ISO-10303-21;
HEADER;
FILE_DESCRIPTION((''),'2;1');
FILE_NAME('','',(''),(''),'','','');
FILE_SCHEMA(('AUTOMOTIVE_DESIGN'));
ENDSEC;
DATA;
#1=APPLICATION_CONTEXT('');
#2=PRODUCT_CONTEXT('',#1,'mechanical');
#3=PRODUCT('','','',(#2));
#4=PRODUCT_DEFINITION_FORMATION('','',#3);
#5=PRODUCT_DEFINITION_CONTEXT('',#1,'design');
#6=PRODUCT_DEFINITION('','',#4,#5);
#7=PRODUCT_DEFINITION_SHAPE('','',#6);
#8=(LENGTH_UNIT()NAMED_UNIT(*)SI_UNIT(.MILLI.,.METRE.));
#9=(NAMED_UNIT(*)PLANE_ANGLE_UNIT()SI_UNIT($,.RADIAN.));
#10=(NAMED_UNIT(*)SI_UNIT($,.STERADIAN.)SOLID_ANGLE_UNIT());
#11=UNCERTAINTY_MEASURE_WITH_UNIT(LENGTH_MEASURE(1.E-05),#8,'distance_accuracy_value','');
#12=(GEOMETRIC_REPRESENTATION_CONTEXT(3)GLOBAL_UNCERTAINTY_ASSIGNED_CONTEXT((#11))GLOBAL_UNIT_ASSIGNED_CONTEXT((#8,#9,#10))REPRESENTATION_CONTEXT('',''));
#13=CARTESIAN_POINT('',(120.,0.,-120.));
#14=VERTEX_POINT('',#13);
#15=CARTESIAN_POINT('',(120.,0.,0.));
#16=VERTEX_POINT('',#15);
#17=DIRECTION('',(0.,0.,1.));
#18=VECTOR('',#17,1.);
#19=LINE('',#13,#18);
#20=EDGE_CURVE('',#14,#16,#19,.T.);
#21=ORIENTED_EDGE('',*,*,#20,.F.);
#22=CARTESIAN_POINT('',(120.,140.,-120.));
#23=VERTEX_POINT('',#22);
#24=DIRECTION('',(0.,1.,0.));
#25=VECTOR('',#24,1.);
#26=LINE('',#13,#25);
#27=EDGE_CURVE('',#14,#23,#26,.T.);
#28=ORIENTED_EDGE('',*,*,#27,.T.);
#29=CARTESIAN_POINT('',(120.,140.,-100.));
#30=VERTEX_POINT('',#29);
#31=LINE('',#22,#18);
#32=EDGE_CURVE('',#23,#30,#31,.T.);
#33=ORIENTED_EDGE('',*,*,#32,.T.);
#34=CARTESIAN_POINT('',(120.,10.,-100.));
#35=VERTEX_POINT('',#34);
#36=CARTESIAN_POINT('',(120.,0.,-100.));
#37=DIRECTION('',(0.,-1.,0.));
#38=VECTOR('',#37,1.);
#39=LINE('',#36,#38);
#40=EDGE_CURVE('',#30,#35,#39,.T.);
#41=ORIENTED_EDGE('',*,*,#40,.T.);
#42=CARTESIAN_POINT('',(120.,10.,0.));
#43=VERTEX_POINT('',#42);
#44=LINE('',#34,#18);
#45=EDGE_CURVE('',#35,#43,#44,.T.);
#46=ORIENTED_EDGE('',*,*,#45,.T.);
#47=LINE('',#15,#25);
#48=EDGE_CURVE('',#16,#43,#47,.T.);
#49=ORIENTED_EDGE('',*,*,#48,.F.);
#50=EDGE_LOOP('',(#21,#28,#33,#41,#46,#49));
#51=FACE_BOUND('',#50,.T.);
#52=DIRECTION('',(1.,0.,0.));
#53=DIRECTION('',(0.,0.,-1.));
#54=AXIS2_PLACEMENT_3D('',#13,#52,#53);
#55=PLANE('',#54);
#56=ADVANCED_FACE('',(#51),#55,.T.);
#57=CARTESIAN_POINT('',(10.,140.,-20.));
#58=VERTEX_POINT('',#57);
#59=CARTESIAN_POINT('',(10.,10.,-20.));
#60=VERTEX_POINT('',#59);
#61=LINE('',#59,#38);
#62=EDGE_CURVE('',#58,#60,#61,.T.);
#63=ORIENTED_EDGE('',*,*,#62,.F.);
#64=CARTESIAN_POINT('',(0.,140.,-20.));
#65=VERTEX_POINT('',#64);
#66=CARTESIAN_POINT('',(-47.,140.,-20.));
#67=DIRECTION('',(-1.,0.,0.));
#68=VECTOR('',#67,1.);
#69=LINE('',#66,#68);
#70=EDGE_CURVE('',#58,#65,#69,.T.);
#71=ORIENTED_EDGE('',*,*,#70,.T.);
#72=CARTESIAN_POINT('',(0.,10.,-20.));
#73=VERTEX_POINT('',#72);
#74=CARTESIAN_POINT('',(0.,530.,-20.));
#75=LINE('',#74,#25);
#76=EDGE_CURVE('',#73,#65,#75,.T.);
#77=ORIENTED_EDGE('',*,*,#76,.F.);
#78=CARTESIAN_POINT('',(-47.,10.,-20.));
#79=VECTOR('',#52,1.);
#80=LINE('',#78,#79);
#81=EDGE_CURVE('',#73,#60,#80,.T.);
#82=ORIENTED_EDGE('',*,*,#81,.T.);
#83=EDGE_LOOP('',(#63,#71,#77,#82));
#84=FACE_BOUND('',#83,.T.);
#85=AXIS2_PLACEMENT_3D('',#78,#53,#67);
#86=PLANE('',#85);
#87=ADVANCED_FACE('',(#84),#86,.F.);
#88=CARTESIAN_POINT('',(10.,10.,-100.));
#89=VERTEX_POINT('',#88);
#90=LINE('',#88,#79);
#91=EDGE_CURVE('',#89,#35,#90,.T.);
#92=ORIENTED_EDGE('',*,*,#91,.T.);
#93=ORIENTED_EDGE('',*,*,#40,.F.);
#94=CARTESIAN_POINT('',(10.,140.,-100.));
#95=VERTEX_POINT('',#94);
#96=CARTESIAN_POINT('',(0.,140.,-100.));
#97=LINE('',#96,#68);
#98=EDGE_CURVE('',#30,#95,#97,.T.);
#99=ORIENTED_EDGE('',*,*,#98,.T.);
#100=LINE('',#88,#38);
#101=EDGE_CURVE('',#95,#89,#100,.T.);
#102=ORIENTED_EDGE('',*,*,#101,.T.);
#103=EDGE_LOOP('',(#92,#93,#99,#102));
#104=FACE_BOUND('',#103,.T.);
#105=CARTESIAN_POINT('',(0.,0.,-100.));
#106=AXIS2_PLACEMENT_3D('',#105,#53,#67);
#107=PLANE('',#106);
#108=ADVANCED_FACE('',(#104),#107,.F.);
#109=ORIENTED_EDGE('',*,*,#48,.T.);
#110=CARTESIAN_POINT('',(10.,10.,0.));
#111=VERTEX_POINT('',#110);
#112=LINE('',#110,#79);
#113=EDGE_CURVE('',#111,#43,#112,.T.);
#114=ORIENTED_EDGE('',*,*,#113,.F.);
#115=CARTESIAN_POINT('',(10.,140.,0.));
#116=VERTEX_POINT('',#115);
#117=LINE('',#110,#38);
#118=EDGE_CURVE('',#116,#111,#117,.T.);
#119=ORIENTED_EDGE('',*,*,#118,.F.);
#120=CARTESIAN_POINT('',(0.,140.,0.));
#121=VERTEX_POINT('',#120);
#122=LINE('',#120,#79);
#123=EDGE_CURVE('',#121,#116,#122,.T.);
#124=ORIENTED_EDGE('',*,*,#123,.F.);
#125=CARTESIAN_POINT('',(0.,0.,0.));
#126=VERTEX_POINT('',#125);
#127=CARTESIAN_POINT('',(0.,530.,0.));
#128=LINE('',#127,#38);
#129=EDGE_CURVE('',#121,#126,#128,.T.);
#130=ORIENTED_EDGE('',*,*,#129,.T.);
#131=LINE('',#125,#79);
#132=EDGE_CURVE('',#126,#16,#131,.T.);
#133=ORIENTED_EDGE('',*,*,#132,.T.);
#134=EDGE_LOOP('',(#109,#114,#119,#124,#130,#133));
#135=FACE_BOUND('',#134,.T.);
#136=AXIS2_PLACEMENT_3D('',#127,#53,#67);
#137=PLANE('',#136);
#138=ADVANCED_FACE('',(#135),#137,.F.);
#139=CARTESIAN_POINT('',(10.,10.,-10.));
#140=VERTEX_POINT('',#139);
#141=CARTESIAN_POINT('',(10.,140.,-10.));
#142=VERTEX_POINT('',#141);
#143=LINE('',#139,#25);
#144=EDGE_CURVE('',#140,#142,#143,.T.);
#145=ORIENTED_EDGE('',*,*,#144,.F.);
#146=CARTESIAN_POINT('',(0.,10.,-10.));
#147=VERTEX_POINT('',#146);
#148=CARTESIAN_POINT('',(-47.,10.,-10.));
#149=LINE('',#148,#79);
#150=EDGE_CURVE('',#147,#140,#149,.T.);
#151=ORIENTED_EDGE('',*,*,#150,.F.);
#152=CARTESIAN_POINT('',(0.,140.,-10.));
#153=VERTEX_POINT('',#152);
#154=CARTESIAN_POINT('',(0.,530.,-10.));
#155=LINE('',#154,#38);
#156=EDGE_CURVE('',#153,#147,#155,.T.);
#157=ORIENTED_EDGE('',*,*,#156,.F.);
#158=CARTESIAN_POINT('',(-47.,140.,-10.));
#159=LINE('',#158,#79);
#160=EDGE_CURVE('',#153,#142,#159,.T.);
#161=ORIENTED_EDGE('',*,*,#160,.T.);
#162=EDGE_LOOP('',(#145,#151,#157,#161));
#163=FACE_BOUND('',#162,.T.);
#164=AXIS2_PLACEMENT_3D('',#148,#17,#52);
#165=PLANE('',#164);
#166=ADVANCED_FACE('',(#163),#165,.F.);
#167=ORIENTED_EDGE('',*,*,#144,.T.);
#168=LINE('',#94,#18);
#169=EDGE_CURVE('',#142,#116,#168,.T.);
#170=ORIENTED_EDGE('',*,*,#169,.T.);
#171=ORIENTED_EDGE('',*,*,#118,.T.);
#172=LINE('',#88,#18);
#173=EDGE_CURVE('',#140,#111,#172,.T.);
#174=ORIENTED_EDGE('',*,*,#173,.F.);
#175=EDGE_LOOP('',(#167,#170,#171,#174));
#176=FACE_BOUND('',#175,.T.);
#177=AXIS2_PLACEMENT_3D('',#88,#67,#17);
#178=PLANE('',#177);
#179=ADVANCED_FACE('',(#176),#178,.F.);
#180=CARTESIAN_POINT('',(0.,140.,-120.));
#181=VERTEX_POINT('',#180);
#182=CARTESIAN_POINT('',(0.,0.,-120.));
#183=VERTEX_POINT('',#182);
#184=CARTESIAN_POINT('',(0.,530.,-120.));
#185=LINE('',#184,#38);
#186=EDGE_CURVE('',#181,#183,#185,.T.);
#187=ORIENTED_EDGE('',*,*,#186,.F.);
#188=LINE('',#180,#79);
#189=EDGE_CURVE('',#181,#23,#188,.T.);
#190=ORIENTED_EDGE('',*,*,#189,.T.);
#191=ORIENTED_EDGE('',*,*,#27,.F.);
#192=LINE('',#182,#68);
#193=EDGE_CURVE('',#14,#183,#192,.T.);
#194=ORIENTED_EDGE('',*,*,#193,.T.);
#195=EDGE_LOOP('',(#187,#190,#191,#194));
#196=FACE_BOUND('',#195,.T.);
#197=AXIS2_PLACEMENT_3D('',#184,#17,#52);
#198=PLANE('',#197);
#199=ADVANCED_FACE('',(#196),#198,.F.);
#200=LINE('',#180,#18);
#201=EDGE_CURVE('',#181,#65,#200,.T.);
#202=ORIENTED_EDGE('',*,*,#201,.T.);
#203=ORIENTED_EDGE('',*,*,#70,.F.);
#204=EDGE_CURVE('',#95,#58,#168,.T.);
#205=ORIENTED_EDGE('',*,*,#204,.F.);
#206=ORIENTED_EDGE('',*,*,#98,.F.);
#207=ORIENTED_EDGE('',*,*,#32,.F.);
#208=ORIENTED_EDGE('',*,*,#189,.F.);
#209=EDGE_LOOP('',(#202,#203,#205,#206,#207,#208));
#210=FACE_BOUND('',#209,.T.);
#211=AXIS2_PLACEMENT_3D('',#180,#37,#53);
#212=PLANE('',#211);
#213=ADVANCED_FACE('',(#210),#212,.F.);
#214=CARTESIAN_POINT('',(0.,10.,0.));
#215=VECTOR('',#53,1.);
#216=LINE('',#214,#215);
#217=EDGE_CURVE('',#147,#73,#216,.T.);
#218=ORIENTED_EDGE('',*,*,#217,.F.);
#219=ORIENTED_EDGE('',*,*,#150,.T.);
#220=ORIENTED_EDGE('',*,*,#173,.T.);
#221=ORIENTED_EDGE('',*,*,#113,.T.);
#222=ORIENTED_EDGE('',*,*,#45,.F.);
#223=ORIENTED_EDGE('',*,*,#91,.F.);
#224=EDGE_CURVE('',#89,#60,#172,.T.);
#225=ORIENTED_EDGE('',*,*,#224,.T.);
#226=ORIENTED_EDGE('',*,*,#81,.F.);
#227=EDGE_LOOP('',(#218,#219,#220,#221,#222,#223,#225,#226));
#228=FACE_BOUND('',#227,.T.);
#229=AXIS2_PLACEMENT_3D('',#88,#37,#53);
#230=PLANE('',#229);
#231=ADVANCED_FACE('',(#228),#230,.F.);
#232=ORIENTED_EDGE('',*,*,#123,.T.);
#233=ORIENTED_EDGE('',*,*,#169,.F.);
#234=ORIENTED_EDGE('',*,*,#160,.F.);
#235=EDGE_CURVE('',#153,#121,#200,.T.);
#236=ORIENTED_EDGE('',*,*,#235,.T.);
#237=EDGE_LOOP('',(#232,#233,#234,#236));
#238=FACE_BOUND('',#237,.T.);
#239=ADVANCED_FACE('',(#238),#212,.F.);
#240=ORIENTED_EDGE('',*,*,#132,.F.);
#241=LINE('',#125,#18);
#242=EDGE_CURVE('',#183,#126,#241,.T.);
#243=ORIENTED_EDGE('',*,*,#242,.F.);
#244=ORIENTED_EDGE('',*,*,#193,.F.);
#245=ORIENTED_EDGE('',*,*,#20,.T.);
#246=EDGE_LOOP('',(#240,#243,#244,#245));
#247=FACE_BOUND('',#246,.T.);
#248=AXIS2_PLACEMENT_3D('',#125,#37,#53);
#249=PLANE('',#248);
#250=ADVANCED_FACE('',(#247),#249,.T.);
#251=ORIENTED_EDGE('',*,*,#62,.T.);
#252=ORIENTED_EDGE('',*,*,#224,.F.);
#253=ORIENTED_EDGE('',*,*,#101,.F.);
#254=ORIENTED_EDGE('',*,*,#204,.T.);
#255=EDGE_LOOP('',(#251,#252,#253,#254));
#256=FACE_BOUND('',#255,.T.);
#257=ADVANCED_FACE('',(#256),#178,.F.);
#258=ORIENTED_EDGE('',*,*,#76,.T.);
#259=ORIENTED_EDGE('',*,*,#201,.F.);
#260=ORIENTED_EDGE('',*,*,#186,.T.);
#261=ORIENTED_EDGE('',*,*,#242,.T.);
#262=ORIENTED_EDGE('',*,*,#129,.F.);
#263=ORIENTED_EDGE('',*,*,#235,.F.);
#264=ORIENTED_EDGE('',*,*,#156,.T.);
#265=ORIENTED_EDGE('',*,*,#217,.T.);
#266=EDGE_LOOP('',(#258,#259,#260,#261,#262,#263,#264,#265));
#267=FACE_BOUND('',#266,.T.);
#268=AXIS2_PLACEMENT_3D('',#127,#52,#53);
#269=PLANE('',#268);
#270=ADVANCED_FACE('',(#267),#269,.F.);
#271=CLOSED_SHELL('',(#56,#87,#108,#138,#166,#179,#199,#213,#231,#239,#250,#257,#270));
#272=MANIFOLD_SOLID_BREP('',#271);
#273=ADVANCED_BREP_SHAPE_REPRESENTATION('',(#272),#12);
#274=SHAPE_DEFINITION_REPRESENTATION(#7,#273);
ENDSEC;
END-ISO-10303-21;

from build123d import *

# Parameters (mm, degrees)
SKETCH1_W                      = 670
SKETCH1_H                      = 120
BOSS_EXTRUDE1_DEPTH            = 530
SKETCH2_W                      = 100
SKETCH2_H                      = 200
SKETCH2_W_2                    = 650
SKETCH2_H_2                    = 250
CUT_EXTRUDE1_DEPTH             = 100
SKETCH3_R                      = 50
CUT_EXTRUDE2_DEPTH             = 260
F_12_0_12_DIAMETER_HOLE2_D     = 12
F_12_0_12_DIAMETER_HOLE2_DEPTH = 30
F_12_0_12_DIAMETER_HOLE2_TIP   = 3.605163714
SKETCH8_W                      = 650
SKETCH8_H                      = 50
BOSS_EXTRUDE2_DEPTH            = 5
SKETCH9_W                      = 10
SKETCH9_H                      = 250
CUT_EXTRUDE3_DEPTH             = 717
CUT_EXTRUDE4_DEPTH             = 5
SKETCH11_W                     = 10
SKETCH11_H                     = 100
BOSS_EXTRUDE3_DEPTH            = 78
BOSS_EXTRUDE3_2_DEPTH          = 78
BOSS_EXTRUDE3_3_DEPTH          = 78
SKETCH12_W                     = 20
SKETCH12_H                     = 30
CUT_EXTRUDE5_DEPTH             = 80
SKETCH15_W                     = 30
SKETCH15_H                     = 23.536156656
SKETCH15_H_2                   = 28.986603691
CUT_EXTRUDE7_DEPTH             = 35
SHELL1_T                       = -3
SKETCH16_W                     = 14
SKETCH16_H                     = 14
CUT_EXTRUDE8_DEPTH             = 35
SKETCH17_W                     = 5.729882812
SKETCH17_H                     = 17.428393554
SKETCH17_W_2                   = 13.369726562
SKETCH17_H_2                   = 3.342431641
BOSS_EXTRUDE4_DEPTH            = 5
CUT_EXTRUDE10_DEPTH            = 863.670273187
CUT_EXTRUDE10_DEPTH_BACK       = 863.670273187
SKETCH18_W                     = 670
SKETCH18_H                     = 250
CUT_EXTRUDE11_DEPTH            = 734.007503372
CUT_EXTRUDE11_DEPTH_BACK       = 734.007503372
SKETCH19_W                     = 550
SKETCH19_H                     = 280
CUT_EXTRUDE12_DEPTH            = 321.624390838
CUT_EXTRUDE12_DEPTH_BACK       = 321.624390838
SKETCH20_W                     = 120
SKETCH20_H                     = 140


with BuildPart() as part:
    # Sketch1 → Boss-Extrude1 (new body)
    with BuildSketch(Plane(origin=(0, 0, 0), x_dir=(1, 0, 0), z_dir=(0, 1, 0))):
        with Locations((335, 60)):
            Rectangle(SKETCH1_W, SKETCH1_H)
    extrude(amount=BOSS_EXTRUDE1_DEPTH)

    # Sketch2 → Cut-Extrude1 (cut)
    with BuildSketch(Plane.XY):
        with Locations((60, 380)):
            Rectangle(SKETCH2_W, SKETCH2_H)
        with Locations((170, 380)):
            Rectangle(SKETCH2_W, SKETCH2_H)
        with Locations((280, 380)):
            Rectangle(SKETCH2_W, SKETCH2_H)
        with Locations((390, 380)):
            Rectangle(SKETCH2_W, SKETCH2_H)
        with Locations((500, 380)):
            Rectangle(SKETCH2_W, SKETCH2_H)
        with Locations((610, 380)):
            Rectangle(SKETCH2_W, SKETCH2_H)
        with Locations((335, 135)):
            Rectangle(SKETCH2_W_2, SKETCH2_H_2)
    extrude(amount=-CUT_EXTRUDE1_DEPTH, mode=Mode.SUBTRACT)

    # Sketch3 → Cut-Extrude2 (cut)
    with BuildSketch(Plane(origin=(0, 530, 0), x_dir=(1, 0, 0), z_dir=(0, 1, 0))):
        with Locations(Location((60, 60, 0), (0, 0, 270))):
            Circle(SKETCH3_R)
        with Locations(Location((170, 60, 0), (0, 0, 270))):
            Circle(SKETCH3_R)
        with Locations(Location((280, 60, 0), (0, 0, 270))):
            Circle(SKETCH3_R)
        with Locations(Location((390, 60, 0), (0, 0, 270))):
            Circle(SKETCH3_R)
        with Locations(Location((500, 60, 0), (0, 0, 270))):
            Circle(SKETCH3_R)
        with Locations(Location((610, 60, 0), (0, 0, 270))):
            Circle(SKETCH3_R)
    extrude(amount=-CUT_EXTRUDE2_DEPTH, mode=Mode.SUBTRACT)

    # Ø12.0 (12) Diameter Hole2
    with Locations(Plane(origin=(59.704642413, 270, -102.411697903), x_dir=(0, 0, 1), z_dir=(0, 1, 0))):
        with Locations((0, 0), (-0.195888006, 111.8520513), (0.014838595, 221.167624818), (-0.341843303, 331.364008353), (0.657723149, 441.008646429), (1.288998006, 549.811854685)):
            Hole(F_12_0_12_DIAMETER_HOLE2_D / 2, depth=F_12_0_12_DIAMETER_HOLE2_DEPTH)
            with Locations((0, 0, -(F_12_0_12_DIAMETER_HOLE2_DEPTH + F_12_0_12_DIAMETER_HOLE2_TIP / 2))):  # 118° drill point
                Cone(0, F_12_0_12_DIAMETER_HOLE2_D / 2, F_12_0_12_DIAMETER_HOLE2_TIP, mode=Mode.SUBTRACT)

    # Sketch8 → Boss-Extrude2 (add)
    with BuildSketch(Plane.XY):
        with Locations((335, 305)):
            Rectangle(SKETCH8_W, SKETCH8_H)
    extrude(amount=-BOSS_EXTRUDE2_DEPTH)

    # Sketch9 → Cut-Extrude3 (cut)
    with BuildSketch(Plane(origin=(670, 0, 0), x_dir=(0, 0, -1), z_dir=(1, 0, 0))):
        with Locations((15, 135)):
            Rectangle(SKETCH9_W, SKETCH9_H)
    extrude(amount=-CUT_EXTRUDE3_DEPTH, mode=Mode.SUBTRACT)

    # Sketch10 → Cut-Extrude4 (cut)
    with BuildSketch(Plane(origin=(0, 10, 0), x_dir=(1, 0, 0), z_dir=(0, 1, 0))):
        Polygon((365, 61.943560596), (350, 87.924322709), (320, 87.924322709), (305, 61.943560596), (320, 35.962798482), (350, 35.962798482), align=None)
    extrude(amount=-CUT_EXTRUDE4_DEPTH, mode=Mode.SUBTRACT)

    # Sketch12 → Cut-Extrude5 (cut)
    with BuildSketch(Plane.XY.offset(-100)):
        with Locations((85.198613037, 245)):
            Rectangle(SKETCH12_W, SKETCH12_H)
        with Locations((195.198613037, 245)):
            Rectangle(SKETCH12_W, SKETCH12_H)
        with Locations((305.198613037, 245)):
            Rectangle(SKETCH12_W, SKETCH12_H)
        with Locations((415.198613037, 245)):
            Rectangle(SKETCH12_W, SKETCH12_H)
        with Locations((525.198613037, 245)):
            Rectangle(SKETCH12_W, SKETCH12_H)
        with Locations((635.198613037, 245)):
            Rectangle(SKETCH12_W, SKETCH12_H)
    extrude(amount=-CUT_EXTRUDE5_DEPTH, mode=Mode.SUBTRACT)

    # Sketch17 → Boss-Extrude4 (add)
    # profile 1 of 9: a face of its own
    with BuildSketch(Plane.XY):
        with BuildLine():
            Line((527.508830928, 289.835452458), (527.508830928, 307.263846012))
            Line((527.508830928, 307.263846012), (534.861434459, 307.263846012))
            add(Edge.make_bspline(
                [(534.861434459, 307.263846012), (535.181337774, 307.258256848), (535.803061116, 307.24739446), (536.703508491, 307.139069344), (537.544992916, 306.975202489), (538.325061607, 306.737496792), (539.040841948, 306.426020155), (539.698044515, 306.051894954), (540.290333057, 305.605079277), (540.822348212, 305.090232636), (541.284521701, 304.502523111), (541.692171296, 303.852565801), (542.030284458, 303.129762281), (542.309377095, 302.341316546), (542.5243908, 301.484161689), (542.679660381, 300.560045938), (542.773357357, 299.567500804), (542.783368073, 298.883107022), (542.788518428, 298.530997273)],
                knots=[0, 0, 0, 0, 1.135059408, 2.20595691, 3.214417064, 4.174978569, 5.094187092, 5.980001006, 6.853065862, 7.720814779, 8.600404634, 9.50058483, 10.438414914, 11.426825708, 12.465239141, 13.571113463, 14.750376389, 16, 16, 16, 16], degree=3))
            add(Edge.make_bspline(
                [(542.788518428, 298.530997273), (542.781740751, 298.180151665), (542.768592871, 297.499553336), (542.676885992, 296.511518461), (542.516733301, 295.591080531), (542.296748778, 294.736450427), (542.003051046, 293.953120444), (541.654236167, 293.233205539), (541.233025793, 292.585291498), (540.753136904, 292.000029304), (540.204772188, 291.484681411), (539.587651059, 291.044279297), (538.910779309, 290.668464036), (538.169670382, 290.361903209), (537.364073889, 290.124869172), (536.495133477, 289.954199984), (535.562644449, 289.853487388), (534.920131033, 289.841584621), (534.58911581, 289.835452458)],
                knots=[0, 0, 0, 0, 1.228418252, 2.382983832, 3.470276728, 4.496757894, 5.468023682, 6.394867725, 7.292157164, 8.167372942, 9.039072913, 9.918728341, 10.815246345, 11.744296628, 12.720973084, 13.750736166, 14.841206188, 16, 16, 16, 16], degree=3))
            Line((534.58911581, 289.835452458), (527.508830928, 289.835452458))
        make_face()
        with BuildLine():
            Line((533.238713741, 291.745413395), (534.048208904, 291.745413395))
            add(Edge.make_bspline(
                [(534.048208904, 291.745413395), (534.172894012, 291.749291978), (534.413033311, 291.756761998), (534.758676231, 291.825976613), (535.075745017, 291.938271137), (535.365749176, 292.094802589), (535.623404602, 292.300450923), (535.848862806, 292.551404902), (536.04776914, 292.844737637), (536.217685755, 293.190205032), (536.364284647, 293.596533622), (536.481764702, 294.076367921), (536.592118304, 294.630928744), (536.673672739, 295.265507643), (536.740044562, 295.978448886), (536.788346679, 296.768428292), (536.812018936, 297.636801208), (536.817188964, 298.241258393), (536.819890499, 298.55711002)],
                knots=[0, 0, 0, 0, 0.728710832, 1.403472396, 2.052289494, 2.690292559, 3.321919393, 3.970736491, 4.656696891, 5.388631723, 6.217040872, 7.17856157, 8.275589967, 9.523440737, 10.918935818, 12.463926104, 14.152268318, 16, 16, 16, 16], degree=3))
            add(Edge.make_bspline(
                [(536.819890499, 298.55711002), (536.8171426, 298.871715251), (536.811863063, 299.476166083), (536.7886758, 300.343334385), (536.739579947, 301.133216935), (536.674703848, 301.843934916), (536.589660404, 302.476324031), (536.488366458, 303.031681737), (536.362441588, 303.507627045), (536.222158727, 303.914921549), (536.050140993, 304.256514038), (535.858357073, 304.554097881), (535.62547107, 304.79746827), (535.36991257, 305.004888479), (535.079348843, 305.160875844), (534.761320266, 305.273944358), (534.414185903, 305.34216807), (534.172870641, 305.349893944), (534.048208904, 305.353885075)],
                knots=[0, 0, 0, 0, 1.842836665, 3.540640921, 5.080358154, 6.47765669, 7.719902824, 8.816971715, 9.781579111, 10.601733135, 11.334613876, 12.017393917, 12.666641099, 13.29908421, 13.937911793, 14.587567384, 15.270347425, 16, 16, 16, 16], degree=3))
            Line((534.048208904, 305.353885075), (533.238713741, 305.353885075))
            Line((533.238713741, 305.353885075), (533.238713741, 291.745413395))
        make_face(mode=Mode.SUBTRACT)
    # profile 2 of 9: a face of its own
    with BuildSketch(Plane.XY):
        with Locations((547.563420772, 298.549649235)):
            Rectangle(SKETCH17_W, SKETCH17_H)
    # profile 3 of 9: a face of its own
    with BuildSketch(Plane.XY):
        Polygon((564.514324092, 307.263846012), (564.514324092, 305.115139958), (558.545696163, 305.115139958), (558.545696163, 299.862747379), (563.559343624, 299.862747379), (563.559343624, 297.714041325), (558.545696163, 297.714041325), (558.545696163, 289.835452458), (552.81581335, 289.835452458), (552.81581335, 307.263846012), align=None)
    # profile 4 of 9: a face of its own
    with BuildSketch(Plane.XY):
        Polygon((577.645305538, 307.263846012), (577.645305538, 305.115139958), (571.676677608, 305.115139958), (571.676677608, 299.862747379), (576.690325069, 299.862747379), (576.690325069, 297.714041325), (571.676677608, 297.714041325), (571.676677608, 289.835452458), (565.946794795, 289.835452458), (565.946794795, 307.263846012), align=None)
    # profile 5 of 9: a face of its own
    with BuildSketch(Plane.XY):
        with Locations((584.330168819, 287.448001286)):
            Rectangle(SKETCH17_W_2, SKETCH17_H_2)
    # profile 6 of 9: a face of its own
    with BuildSketch(Plane.XY):
        with BuildLine():
            Line((605.578484249, 307.263846012), (605.578484249, 295.602639195))
            add(Edge.make_bspline(
                [(605.578484249, 295.602639195), (605.574209777, 295.35989389), (605.565919345, 294.889083964), (605.480877158, 294.20653885), (605.349958188, 293.569747554), (605.15926554, 292.978838165), (604.911867049, 292.436847071), (604.616163877, 291.936663973), (604.260702644, 291.487723021), (603.847299908, 291.08966617), (603.386881991, 290.731670113), (602.867295001, 290.425440037), (602.293741958, 290.168488385), (601.66690529, 289.960990771), (600.988052682, 289.797299786), (600.254912883, 289.679078851), (599.467035781, 289.60781007), (598.923618241, 289.60048219), (598.643684673, 289.59670734)],
                knots=[0, 0, 0, 0, 1.108173197, 2.149326602, 3.136215123, 4.073726706, 4.978516626, 5.852185058, 6.72141202, 7.584905625, 8.467554395, 9.379216169, 10.332422268, 11.332766067, 12.390653242, 13.518530507, 14.721707419, 16, 16, 16, 16], degree=3))
            add(Edge.make_bspline(
                [(598.643684673, 289.59670734), (598.373688491, 289.600411437), (597.851346557, 289.607577482), (597.093280473, 289.679448684), (596.387523889, 289.797736542), (595.733050135, 289.960122315), (595.130189942, 290.169220301), (594.579048171, 290.42623041), (594.078350789, 290.732835498), (593.633858028, 291.090104794), (593.234289459, 291.486851767), (592.899913678, 291.940746827), (592.609043638, 292.435866034), (592.375223767, 292.980322997), (592.191754821, 293.570441519), (592.063541006, 294.20666921), (591.983676196, 294.889343196), (591.974661767, 295.359932437), (591.970012569, 295.602639195)],
                knots=[0, 0, 0, 0, 1.258901956, 2.435505865, 3.547148904, 4.59359074, 5.576649289, 6.5183682, 7.424469602, 8.307507093, 9.172751023, 10.042627298, 10.928839176, 11.845659241, 12.799442865, 13.80597989, 14.868432463, 16, 16, 16, 16], degree=3))
            Line((591.970012569, 295.602639195), (591.970012569, 307.263846012))
            Line((591.970012569, 307.263846012), (597.699895381, 307.263846012))
            Line((597.699895381, 307.263846012), (597.699895381, 295.457153889))
            add(Edge.make_bspline(
                [(597.699895381, 295.457153889), (597.700816195, 295.287996189), (597.702584578, 294.963135903), (597.729908723, 294.499051493), (597.768241004, 294.079064133), (597.828226169, 293.705517832), (597.90066041, 293.377063412), (597.989882091, 293.09281535), (598.094998068, 292.852496478), (598.225239063, 292.654232043), (598.380826623, 292.495135011), (598.55368342, 292.353231761), (598.757556996, 292.238543846), (598.987648905, 292.146224908), (599.243380948, 292.070549638), (599.526120553, 292.020376099), (599.83553351, 291.990763905), (600.049971942, 291.986424568), (600.161954402, 291.984158512)],
                knots=[0, 0, 0, 0, 1.622370975, 3.115695595, 4.458049099, 5.666011203, 6.742434742, 7.681714947, 8.519814998, 9.250928664, 9.942747364, 10.646898194, 11.389596108, 12.175933929, 13.021386247, 13.943159715, 14.925891993, 16, 16, 16, 16], degree=3))
            add(Edge.make_bspline(
                [(600.161954402, 291.984158512), (600.283927219, 291.987190593), (600.521124756, 291.993087005), (600.86597014, 292.03390861), (601.187714881, 292.103380086), (601.484890424, 292.205377303), (601.758665297, 292.332852529), (602.012761516, 292.484567923), (602.236391413, 292.674631152), (602.439076761, 292.888441291), (602.620738276, 293.128529789), (602.771757722, 293.399928575), (602.905501548, 293.697121508), (603.005823683, 294.025060118), (603.089837826, 294.379999499), (603.146989706, 294.763086929), (603.186210275, 295.174074524), (603.189394751, 295.457053988), (603.191033077, 295.602639195)],
                knots=[0, 0, 0, 0, 1.083870311, 2.107775948, 3.08105344, 4.003637981, 4.893545291, 5.761570557, 6.624657808, 7.49233129, 8.376387281, 9.291996285, 10.246843261, 11.267344133, 12.334180325, 13.486053461, 14.706643157, 16, 16, 16, 16], degree=3))
            Line((603.191033077, 295.602639195), (603.191033077, 307.263846012))
            Line((603.191033077, 307.263846012), (605.578484249, 307.263846012))
        make_face()
    # profile 7 of 9: a face of its own
    with BuildSketch(Plane.XY):
        with BuildLine():
            Line((619.731593227, 302.015183827), (616.739818477, 301.526502415))
            add(Edge.make_bspline(
                [(616.739818477, 301.526502415), (616.748849224, 301.670726223), (616.765660669, 301.939210177), (616.78429066, 302.312269209), (616.796668381, 302.625642376), (616.798628236, 302.814722915), (616.799504756, 302.899286839)],
                knots=[0, 0, 0, 0, 1.261802504, 2.348944521, 3.261585937, 4, 4, 4, 4], degree=3))
            add(Edge.make_bspline(
                [(616.799504756, 302.899286839), (616.798306068, 303.007660677), (616.795968139, 303.219033721), (616.750451916, 303.523894877), (616.694806916, 303.811547356), (616.604352699, 304.076787391), (616.488181329, 304.320314265), (616.348943917, 304.543955606), (616.184187178, 304.745078709), (615.995833421, 304.928129987), (615.778009957, 305.083200131), (615.536269472, 305.218702836), (615.269765326, 305.333844758), (614.978065514, 305.431346685), (614.660683072, 305.504624438), (614.319025281, 305.556776695), (613.952471696, 305.585673441), (613.699597795, 305.590260771), (613.568984889, 305.592630192)],
                knots=[0, 0, 0, 0, 1.079280541, 2.105035848, 3.067950317, 3.99715044, 4.889989748, 5.753421302, 6.617030865, 7.476358039, 8.364190572, 9.274590025, 10.235106994, 11.254473582, 12.337095886, 13.478601727, 14.697662529, 16, 16, 16, 16], degree=3))
            add(Edge.make_bspline(
                [(613.568984889, 305.592630192), (613.391954632, 305.58912286), (613.059112606, 305.582528579), (612.595688488, 305.495339748), (612.198743126, 305.361419257), (611.87165349, 305.163811893), (611.613188167, 304.909795747), (611.433841092, 304.593316589), (611.323009072, 304.224665915), (611.313400221, 303.959558324), (611.308367061, 303.820693775)],
                knots=[0, 0, 0, 0, 1.294917039, 2.43462794, 3.440028966, 4.347597256, 5.210608309, 6.06356377, 6.985685997, 8, 8, 8, 8], degree=3))
            add(Edge.make_bspline(
                [(611.308367061, 303.820693775), (611.317562032, 303.705133219), (611.336106628, 303.472068433), (611.47315858, 303.132808312), (611.695999602, 302.811560885), (612.009295906, 302.510664216), (612.404107796, 302.221967273), (612.884407504, 301.948533431), (613.450813789, 301.688189695), (613.862519081, 301.536023727), (614.080048656, 301.455624958)],
                knots=[0, 0, 0, 0, 0.716839541, 1.445735977, 2.240793036, 3.131329288, 4.131129903, 5.273471266, 6.559404876, 8, 8, 8, 8], degree=3))
            add(Edge.make_bspline(
                [(614.080048656, 301.455624958), (614.335934702, 301.364918412), (614.834564244, 301.188164095), (615.547657928, 300.88707802), (616.213068388, 300.5749594), (616.829579094, 300.246613346), (617.397833174, 299.90520698), (617.914851624, 299.544556457), (618.386199073, 299.173962102), (618.807001026, 298.783874588), (619.177995113, 298.378100064), (619.4958685, 297.952745357), (619.771807525, 297.51723103), (619.991113975, 297.061458502), (620.169645242, 296.594624218), (620.292698657, 296.11024444), (620.364288243, 295.609761088), (620.37516617, 295.270864226), (620.380681514, 295.099036213)],
                knots=[0, 0, 0, 0, 1.359488612, 2.649152603, 3.874964776, 5.039588756, 6.146130126, 7.193090393, 8.194917302, 9.146793662, 10.063845301, 10.944476293, 11.803344532, 12.641736646, 13.473440096, 14.302714936, 15.139439897, 16, 16, 16, 16], degree=3))
            add(Edge.make_bspline(
                [(620.380681514, 295.099036213), (620.374476075, 294.902306495), (620.362285176, 294.515820995), (620.280160209, 293.948630617), (620.138011896, 293.409496554), (619.938489338, 292.895972278), (619.681049879, 292.411946655), (619.366518754, 291.954381076), (618.996510229, 291.525099427), (618.5710008, 291.128381035), (618.102222518, 290.765302239), (617.587803957, 290.450854345), (617.034458515, 290.187092261), (616.444107988, 289.968993032), (615.81453624, 289.801373099), (615.145337453, 289.685291013), (614.438790193, 289.606619894), (613.954683001, 289.600062276), (613.70700941, 289.59670734)],
                knots=[0, 0, 0, 0, 0.972121714, 1.909782367, 2.824924061, 3.721832975, 4.62620438, 5.527836938, 6.46026819, 7.421000932, 8.398101015, 9.385579713, 10.394244048, 11.422703992, 12.491421888, 13.608778581, 14.776629625, 16, 16, 16, 16], degree=3))
            add(Edge.make_bspline(
                [(613.70700941, 289.59670734), (613.445745367, 289.599650312), (612.939893069, 289.605348413), (612.207608113, 289.66709241), (611.525297432, 289.760984454), (610.893395078, 289.899706116), (610.309273131, 290.072394336), (609.776099392, 290.288320955), (609.295310255, 290.547303481), (608.863217672, 290.843007892), (608.478306623, 291.175775461), (608.148120946, 291.551766865), (607.86942369, 291.967163224), (607.639947144, 292.421521488), (607.466477665, 292.917583541), (607.339164663, 293.449829748), (607.264537999, 294.021332449), (607.254747521, 294.414908557), (607.249700069, 294.617815586)],
                knots=[0, 0, 0, 0, 1.342201143, 2.598733168, 3.773451092, 4.878874364, 5.91991243, 6.900006476, 7.829142054, 8.72062616, 9.585588575, 10.436728592, 11.283829734, 12.149664931, 13.044964919, 13.977937424, 14.957531465, 16, 16, 16, 16], degree=3))
            add(Edge.make_bspline(
                [(607.249700069, 294.617815586), (607.250803815, 294.692425759), (607.253213998, 294.855347393), (607.260452266, 295.122772538), (607.275636683, 295.433682216), (607.29037174, 295.656130545), (607.298195171, 295.774237248)],
                knots=[0, 0, 0, 0, 0.773500207, 1.689044709, 2.77302154, 4, 4, 4, 4], degree=3))
            Line((607.298195171, 295.774237248), (610.36457777, 296.337526509))
            add(Edge.make_bspline(
                [(610.36457777, 296.337526509), (610.326952988, 296.136337493), (610.255606535, 295.754830366), (610.178678473, 295.21219969), (610.124206629, 294.733311493), (610.11767002, 294.435147371), (610.114641475, 294.297001835)],
                knots=[0, 0, 0, 0, 1.192988372, 2.262218769, 3.194850416, 4, 4, 4, 4], degree=3))
            add(Edge.make_bspline(
                [(610.114641475, 294.297001835), (610.116191817, 294.183708768), (610.119182568, 293.965156219), (610.159053378, 293.648552813), (610.215988606, 293.352999663), (610.302906772, 293.079707227), (610.411206928, 292.826307836), (610.544682453, 292.59538211), (610.704385489, 292.386485019), (610.887496571, 292.200099922), (611.094689168, 292.033628705), (611.327456494, 291.892756696), (611.58347653, 291.771733922), (611.864681562, 291.677479524), (612.167961721, 291.596080628), (612.497219749, 291.548235723), (612.849461228, 291.512043782), (613.092629543, 291.508500084), (613.218327999, 291.506668278)],
                knots=[0, 0, 0, 0, 1.135776692, 2.191015738, 3.19649269, 4.151244236, 5.061952528, 5.956281389, 6.819534407, 7.692823504, 8.571441916, 9.478554956, 10.416037156, 11.406231466, 12.450054172, 13.561596327, 14.739541482, 16, 16, 16, 16], degree=3))
            add(Edge.make_bspline(
                [(613.218327999, 291.506668278), (613.423996012, 291.510791273), (613.810619321, 291.518541853), (614.349272542, 291.616708407), (614.810575885, 291.768742445), (615.189785268, 291.991387532), (615.490778961, 292.278756613), (615.698005174, 292.637320004), (615.824813318, 293.05638326), (615.837728413, 293.355975238), (615.844524288, 293.513619419)],
                knots=[0, 0, 0, 0, 1.308765556, 2.460272085, 3.475015317, 4.388076298, 5.239673503, 6.095681635, 6.997954785, 8, 8, 8, 8], degree=3))
            add(Edge.make_bspline(
                [(615.844524288, 293.513619419), (615.833808824, 293.638242951), (615.811807312, 293.894126055), (615.644884004, 294.264515838), (615.382382362, 294.620631473), (615.016807277, 294.962984909), (614.551376589, 295.293471235), (613.986957743, 295.616730224), (613.322148235, 295.933112033), (612.83677959, 296.119639164), (612.580430889, 296.21815395)],
                knots=[0, 0, 0, 0, 0.667930748, 1.371427933, 2.146459016, 3.034714139, 4.04893387, 5.207327294, 6.525042705, 8, 8, 8, 8], degree=3))
            add(Edge.make_bspline(
                [(612.580430889, 296.21815395), (612.374354345, 296.29679374), (611.970646869, 296.450850434), (611.394079385, 296.713586304), (610.853066711, 296.987016804), (610.357486361, 297.288235735), (609.896382561, 297.599610528), (609.477036946, 297.932256792), (609.09841673, 298.284556341), (608.758710772, 298.653375077), (608.457302107, 299.038989264), (608.199448649, 299.444659231), (607.977533299, 299.866789834), (607.798609588, 300.308107488), (607.65975715, 300.767821241), (607.559616231, 301.244439392), (607.497905054, 301.739995674), (607.491630423, 302.075933546), (607.488445186, 302.246468159)],
                knots=[0, 0, 0, 0, 1.249558333, 2.447906163, 3.58867143, 4.682264114, 5.731748367, 6.739728761, 7.711906036, 8.659384707, 9.578321416, 10.481344598, 11.379544271, 12.277135726, 13.175418307, 14.097160112, 15.034047388, 16, 16, 16, 16], degree=3))
            add(Edge.make_bspline(
                [(607.488445186, 302.246468159), (607.49282555, 302.439538736), (607.501402184, 302.817565692), (607.587451154, 303.36980586), (607.719291893, 303.894921371), (607.910558542, 304.389343064), (608.156192894, 304.852853762), (608.453187669, 305.288766511), (608.804241719, 305.697593471), (609.213503754, 306.066686531), (609.657214714, 306.407618241), (610.14376173, 306.697651931), (610.658716537, 306.950861947), (611.210636666, 307.148827868), (611.791820619, 307.313252612), (612.408080529, 307.421140415), (613.056315391, 307.490701612), (613.499160755, 307.498567824), (613.725661373, 307.502591129)],
                knots=[0, 0, 0, 0, 1.01033566, 1.978209831, 2.919499157, 3.840961976, 4.746855014, 5.660740114, 6.597989116, 7.56120833, 8.541877795, 9.523498025, 10.522416858, 11.542172371, 12.589598349, 13.681636521, 14.814234488, 16, 16, 16, 16], degree=3))
            add(Edge.make_bspline(
                [(613.725661373, 307.502591129), (613.968269855, 307.498219033), (614.438190994, 307.489750488), (615.120391152, 307.426787419), (615.755073228, 307.319142339), (616.345153155, 307.171557286), (616.887304575, 306.977590666), (617.384933999, 306.742393454), (617.834452216, 306.46201507), (618.236961315, 306.139451502), (618.593086714, 305.773322851), (618.897467704, 305.361641069), (619.158701245, 304.909408454), (619.366684143, 304.412232174), (619.529870326, 303.873247147), (619.649133834, 303.29158184), (619.720420497, 302.667301443), (619.72779778, 302.236712324), (619.731593227, 302.015183827)],
                knots=[0, 0, 0, 0, 1.248314423, 2.417925914, 3.521398822, 4.558068205, 5.543720209, 6.479599284, 7.385061127, 8.263440163, 9.127722873, 10.00561236, 10.891325273, 11.808802823, 12.772251995, 13.784947978, 14.860405143, 16, 16, 16, 16], degree=3))
        make_face()
    # profile 8 of 9: a face of its own
    with BuildSketch(Plane.XY):
        Polygon((633.989153194, 307.263846012), (633.989153194, 305.115139958), (628.020525264, 305.115139958), (628.020525264, 300.340237614), (633.034172725, 300.340237614), (633.034172725, 298.191531559), (628.020525264, 298.191531559), (628.020525264, 291.984158512), (634.944133663, 291.984158512), (634.944133663, 289.835452458), (622.290642452, 289.835452458), (622.290642452, 307.263846012), align=None)
    # profile 9 of 9: a face of its own
    with BuildSketch(Plane.XY):
        with BuildLine():
            Line((636.376604366, 289.835452458), (636.376604366, 307.263846012))
            Line((636.376604366, 307.263846012), (643.990335369, 307.263846012))
            add(Edge.make_bspline(
                [(643.990335369, 307.263846012), (644.237946498, 307.261150834), (644.721600887, 307.25588639), (645.426490561, 307.189203683), (646.094808274, 307.090496236), (646.724915796, 306.949857504), (647.317873659, 306.767252686), (647.871119087, 306.542146), (648.390701058, 306.282329135), (648.864494846, 305.976472528), (649.295093616, 305.642889252), (649.669668547, 305.279483604), (649.990389523, 304.894749072), (650.250664962, 304.483256345), (650.454275633, 304.048690948), (650.59581384, 303.587791605), (650.684089268, 303.104102537), (650.695510601, 302.772834174), (650.701311397, 302.604585835)],
                knots=[0, 0, 0, 0, 1.303269877, 2.545653735, 3.724355284, 4.8584284, 5.941462088, 6.987020715, 8.000098032, 8.995332524, 9.951400474, 10.863507538, 11.737823931, 12.582415999, 13.420128714, 14.25671499, 15.114600608, 16, 16, 16, 16], degree=3))
            add(Edge.make_bspline(
                [(650.701311397, 302.604585835), (650.698282873, 302.472674957), (650.692382063, 302.215658276), (650.651041486, 301.838684287), (650.580643818, 301.480313933), (650.481036683, 301.139915259), (650.347814833, 300.820175594), (650.191279492, 300.517863507), (650.009772227, 300.230553342), (649.788675198, 299.970497982), (649.548268341, 299.722842359), (649.274558803, 299.497116911), (648.974487035, 299.288655528), (648.642526299, 299.104010513), (648.287619671, 298.928055749), (647.899038177, 298.784921972), (647.486819978, 298.644749395), (647.19793098, 298.577036306), (647.049257183, 298.54218845)],
                knots=[0, 0, 0, 0, 1.057156483, 2.059775939, 3.035078039, 3.981068617, 4.897189472, 5.80650904, 6.70770952, 7.613691521, 8.536886357, 9.470937334, 10.45233069, 11.461024139, 12.51295332, 13.623444893, 14.776929983, 16, 16, 16, 16], degree=3))
            add(Edge.make_bspline(
                [(647.049257183, 298.54218845), (647.19164695, 298.499279419), (647.467865022, 298.416041346), (647.856360945, 298.265600017), (648.211652989, 298.111536308), (648.524185739, 297.936781388), (648.807636894, 297.762122504), (649.047122259, 297.564301324), (649.255235567, 297.361673563), (649.425188343, 297.135464734), (649.570253643, 296.882344437), (649.694827156, 296.586596707), (649.815179167, 296.247423665), (649.917667348, 295.859098311), (650.004750555, 295.423699276), (650.088222437, 294.944027189), (650.153853601, 294.416024546), (650.187587341, 294.048412906), (650.2051692, 293.856815525)],
                knots=[0, 0, 0, 0, 1.149282524, 2.229462177, 3.219229774, 4.139917433, 4.995948464, 5.788695735, 6.536448429, 7.236319808, 7.968460079, 8.78645307, 9.713791991, 10.749194692, 11.887975363, 13.146018663, 14.512518948, 16, 16, 16, 16], degree=3))
            add(Edge.make_bspline(
                [(650.2051692, 293.856815525), (650.225980287, 293.627849833), (650.265975604, 293.187817268), (650.348933081, 292.554613589), (650.44386163, 291.974357025), (650.555874504, 291.44528724), (650.681301216, 290.967898855), (650.821280597, 290.540469593), (650.979920039, 290.165788217), (651.10484481, 289.941461656), (651.163880062, 289.835452458)],
                knots=[0, 0, 0, 0, 1.324580516, 2.545615266, 3.678710841, 4.711533017, 5.660403917, 6.521349952, 7.301239649, 8, 8, 8, 8], degree=3))
            Line((651.163880062, 289.835452458), (645.213904094, 289.835452458))
            add(Edge.make_bspline(
                [(645.213904094, 289.835452458), (645.12229736, 290.069847279), (644.935171241, 290.548648246), (644.7595281, 291.319414791), (644.64846922, 292.142514735), (644.635117598, 292.70994511), (644.628232479, 293.002555653)],
                knots=[0, 0, 0, 0, 0.930410518, 1.900560147, 2.917368081, 4, 4, 4, 4], degree=3))
            Line((644.628232479, 293.002555653), (644.605850124, 294.002300831))
            Line((644.605850124, 294.002300831), (644.579737377, 295.266903874))
            add(Edge.make_bspline(
                [(644.579737377, 295.266903874), (644.573694669, 295.477395004), (644.562357007, 295.872330118), (644.469348432, 296.426164013), (644.30178735, 296.894645884), (644.073222546, 297.287223005), (643.766741442, 297.590613479), (643.39104803, 297.804152917), (642.950456912, 297.93396284), (642.634664848, 297.946292392), (642.468335247, 297.952786442)],
                knots=[0, 0, 0, 0, 1.295300309, 2.430314163, 3.439929415, 4.342995669, 5.203512789, 6.060756153, 6.978588463, 8, 8, 8, 8], degree=3))
            Line((642.468335247, 297.952786442), (642.106487178, 297.952786442))
            Line((642.106487178, 297.952786442), (642.106487178, 289.835452458))
            Line((642.106487178, 289.835452458), (636.376604366, 289.835452458))
        make_face()
        with BuildLine():
            Line((642.106487178, 299.862747379), (642.617550945, 299.862747379))
            add(Edge.make_bspline(
                [(642.617550945, 299.862747379), (642.722054451, 299.865172716), (642.925280724, 299.869889229), (643.220054897, 299.898289891), (643.494111408, 299.951809873), (643.749840966, 300.021017819), (643.984372137, 300.114851792), (644.200147241, 300.225818296), (644.391160406, 300.362685327), (644.565327067, 300.516342321), (644.718148635, 300.691986294), (644.850351299, 300.889034217), (644.961199162, 301.106225057), (645.056078491, 301.342818683), (645.125883912, 301.600830857), (645.173262731, 301.879472914), (645.203404658, 302.177423605), (645.207875435, 302.383174491), (645.210173702, 302.488943669)],
                knots=[0, 0, 0, 0, 1.184986479, 2.304423995, 3.352332712, 4.347714965, 5.303263624, 6.211353909, 7.091434645, 7.960150225, 8.839440182, 9.723126897, 10.64371617, 11.599264829, 12.608232147, 13.667459739, 14.800924404, 16, 16, 16, 16], degree=3))
            add(Edge.make_bspline(
                [(645.210173702, 302.488943669), (645.207875435, 302.594712847), (645.203404658, 302.800463732), (645.173262731, 303.098414423), (645.125883912, 303.37705648), (645.056078491, 303.635068654), (644.961199162, 303.87166228), (644.850351299, 304.08885312), (644.718148635, 304.285901043), (644.565327067, 304.461545017), (644.391160406, 304.61520201), (644.200147241, 304.752069041), (643.984372137, 304.863035546), (643.749840966, 304.956869518), (643.494111408, 305.026077464), (643.220054897, 305.079597446), (642.925280724, 305.107998108), (642.722054451, 305.112714621), (642.617550945, 305.115139958)],
                knots=[0, 0, 0, 0, 1.199075596, 2.332540261, 3.391767853, 4.400735171, 5.35628383, 6.276873103, 7.160559818, 8.039849775, 8.908565355, 9.788646091, 10.696736376, 11.652285035, 12.647667288, 13.695576005, 14.815013521, 16, 16, 16, 16], degree=3))
            Line((642.617550945, 305.115139958), (642.106487178, 305.115139958))
            Line((642.106487178, 305.115139958), (642.106487178, 299.862747379))
        make_face(mode=Mode.SUBTRACT)
    extrude(amount=BOSS_EXTRUDE4_DEPTH)

    # Sketch18 → Cut-Extrude10 (cut, two sides: drawn at the far end of the back side and taken through both)
    with BuildSketch(Plane.XY.offset(-CUT_EXTRUDE10_DEPTH_BACK)):
        with Locations((335, 405)):
            Rectangle(SKETCH18_W, SKETCH18_H)
    extrude(amount=CUT_EXTRUDE10_DEPTH + CUT_EXTRUDE10_DEPTH_BACK, mode=Mode.SUBTRACT)

    # Sketch19 → Cut-Extrude11 (cut, two sides: drawn at the far end of the back side and taken through both)
    with BuildSketch(Plane.XY.offset(-100).offset(-CUT_EXTRUDE11_DEPTH_BACK)):
        with Locations((395, 140)):
            Rectangle(SKETCH19_W, SKETCH19_H)
    extrude(amount=CUT_EXTRUDE11_DEPTH + CUT_EXTRUDE11_DEPTH_BACK, mode=Mode.SUBTRACT)

    # Sketch20 → Cut-Extrude12 (cut, two sides: drawn at the far end of the back side and taken through both)
    with BuildSketch(Plane.XY.offset(-100).offset(-CUT_EXTRUDE12_DEPTH_BACK)):
        with Locations((60, 210)):
            Rectangle(SKETCH20_W, SKETCH20_H)
    extrude(amount=CUT_EXTRUDE12_DEPTH + CUT_EXTRUDE12_DEPTH_BACK, mode=Mode.SUBTRACT)


with BuildPart() as body_2:
    # Sketch11 → Boss-Extrude3 (new body)
    with BuildSketch(Plane.XY.offset(-100)):
        with Locations((255, 60)):
            Rectangle(SKETCH11_W, SKETCH11_H)
    extrude(amount=BOSS_EXTRUDE3_DEPTH)


with BuildPart() as body_3:
    # Sketch11 → Boss-Extrude3 2 (new body)
    with BuildSketch(Plane.XY.offset(-100)):
        with Locations((415, 60)):
            Rectangle(SKETCH11_W, SKETCH11_H)
    extrude(amount=BOSS_EXTRUDE3_2_DEPTH)


with BuildPart() as body_4:
    # Sketch11 → Boss-Extrude3 3 (new body)
    with BuildSketch(Plane.XY.offset(-100)):
        Polygon((25, 198.45686471), (325, 145.558770497), (325, 122.01775856), (345, 122.01775856), (345, 145.558770497), (645, 198.45686471), align=None)
    extrude(amount=BOSS_EXTRUDE3_3_DEPTH)

    # Sketch15 → Cut-Extrude7 (cut)
    with BuildSketch(Plane(origin=(345, 0, 0), x_dir=(0, 0, -1), z_dir=(1, 0, 0))):
        with Locations((35, 133.231921672)):
            Rectangle(SKETCH15_W, SKETCH15_H)
        with Locations((85, 130.506698154)):
            Rectangle(SKETCH15_W, SKETCH15_H_2)
    extrude(amount=-CUT_EXTRUDE7_DEPTH, mode=Mode.SUBTRACT)

    # Shell1
    shell1_openings = [body_4.faces().sort_by_distance(p)[0] for p in [
        (335, 198.45686471, -61),
    ]]
    offset(amount=SHELL1_T, openings=shell1_openings, kind=Kind.INTERSECTION)

    # Sketch16 → Cut-Extrude8 (cut)
    with BuildSketch(Plane.XZ.offset(-122.01775856)):
        with Locations((335, -60)):
            Rectangle(SKETCH16_W, SKETCH16_H)
    extrude(amount=-CUT_EXTRUDE8_DEPTH, mode=Mode.SUBTRACT)


solid = part.part
